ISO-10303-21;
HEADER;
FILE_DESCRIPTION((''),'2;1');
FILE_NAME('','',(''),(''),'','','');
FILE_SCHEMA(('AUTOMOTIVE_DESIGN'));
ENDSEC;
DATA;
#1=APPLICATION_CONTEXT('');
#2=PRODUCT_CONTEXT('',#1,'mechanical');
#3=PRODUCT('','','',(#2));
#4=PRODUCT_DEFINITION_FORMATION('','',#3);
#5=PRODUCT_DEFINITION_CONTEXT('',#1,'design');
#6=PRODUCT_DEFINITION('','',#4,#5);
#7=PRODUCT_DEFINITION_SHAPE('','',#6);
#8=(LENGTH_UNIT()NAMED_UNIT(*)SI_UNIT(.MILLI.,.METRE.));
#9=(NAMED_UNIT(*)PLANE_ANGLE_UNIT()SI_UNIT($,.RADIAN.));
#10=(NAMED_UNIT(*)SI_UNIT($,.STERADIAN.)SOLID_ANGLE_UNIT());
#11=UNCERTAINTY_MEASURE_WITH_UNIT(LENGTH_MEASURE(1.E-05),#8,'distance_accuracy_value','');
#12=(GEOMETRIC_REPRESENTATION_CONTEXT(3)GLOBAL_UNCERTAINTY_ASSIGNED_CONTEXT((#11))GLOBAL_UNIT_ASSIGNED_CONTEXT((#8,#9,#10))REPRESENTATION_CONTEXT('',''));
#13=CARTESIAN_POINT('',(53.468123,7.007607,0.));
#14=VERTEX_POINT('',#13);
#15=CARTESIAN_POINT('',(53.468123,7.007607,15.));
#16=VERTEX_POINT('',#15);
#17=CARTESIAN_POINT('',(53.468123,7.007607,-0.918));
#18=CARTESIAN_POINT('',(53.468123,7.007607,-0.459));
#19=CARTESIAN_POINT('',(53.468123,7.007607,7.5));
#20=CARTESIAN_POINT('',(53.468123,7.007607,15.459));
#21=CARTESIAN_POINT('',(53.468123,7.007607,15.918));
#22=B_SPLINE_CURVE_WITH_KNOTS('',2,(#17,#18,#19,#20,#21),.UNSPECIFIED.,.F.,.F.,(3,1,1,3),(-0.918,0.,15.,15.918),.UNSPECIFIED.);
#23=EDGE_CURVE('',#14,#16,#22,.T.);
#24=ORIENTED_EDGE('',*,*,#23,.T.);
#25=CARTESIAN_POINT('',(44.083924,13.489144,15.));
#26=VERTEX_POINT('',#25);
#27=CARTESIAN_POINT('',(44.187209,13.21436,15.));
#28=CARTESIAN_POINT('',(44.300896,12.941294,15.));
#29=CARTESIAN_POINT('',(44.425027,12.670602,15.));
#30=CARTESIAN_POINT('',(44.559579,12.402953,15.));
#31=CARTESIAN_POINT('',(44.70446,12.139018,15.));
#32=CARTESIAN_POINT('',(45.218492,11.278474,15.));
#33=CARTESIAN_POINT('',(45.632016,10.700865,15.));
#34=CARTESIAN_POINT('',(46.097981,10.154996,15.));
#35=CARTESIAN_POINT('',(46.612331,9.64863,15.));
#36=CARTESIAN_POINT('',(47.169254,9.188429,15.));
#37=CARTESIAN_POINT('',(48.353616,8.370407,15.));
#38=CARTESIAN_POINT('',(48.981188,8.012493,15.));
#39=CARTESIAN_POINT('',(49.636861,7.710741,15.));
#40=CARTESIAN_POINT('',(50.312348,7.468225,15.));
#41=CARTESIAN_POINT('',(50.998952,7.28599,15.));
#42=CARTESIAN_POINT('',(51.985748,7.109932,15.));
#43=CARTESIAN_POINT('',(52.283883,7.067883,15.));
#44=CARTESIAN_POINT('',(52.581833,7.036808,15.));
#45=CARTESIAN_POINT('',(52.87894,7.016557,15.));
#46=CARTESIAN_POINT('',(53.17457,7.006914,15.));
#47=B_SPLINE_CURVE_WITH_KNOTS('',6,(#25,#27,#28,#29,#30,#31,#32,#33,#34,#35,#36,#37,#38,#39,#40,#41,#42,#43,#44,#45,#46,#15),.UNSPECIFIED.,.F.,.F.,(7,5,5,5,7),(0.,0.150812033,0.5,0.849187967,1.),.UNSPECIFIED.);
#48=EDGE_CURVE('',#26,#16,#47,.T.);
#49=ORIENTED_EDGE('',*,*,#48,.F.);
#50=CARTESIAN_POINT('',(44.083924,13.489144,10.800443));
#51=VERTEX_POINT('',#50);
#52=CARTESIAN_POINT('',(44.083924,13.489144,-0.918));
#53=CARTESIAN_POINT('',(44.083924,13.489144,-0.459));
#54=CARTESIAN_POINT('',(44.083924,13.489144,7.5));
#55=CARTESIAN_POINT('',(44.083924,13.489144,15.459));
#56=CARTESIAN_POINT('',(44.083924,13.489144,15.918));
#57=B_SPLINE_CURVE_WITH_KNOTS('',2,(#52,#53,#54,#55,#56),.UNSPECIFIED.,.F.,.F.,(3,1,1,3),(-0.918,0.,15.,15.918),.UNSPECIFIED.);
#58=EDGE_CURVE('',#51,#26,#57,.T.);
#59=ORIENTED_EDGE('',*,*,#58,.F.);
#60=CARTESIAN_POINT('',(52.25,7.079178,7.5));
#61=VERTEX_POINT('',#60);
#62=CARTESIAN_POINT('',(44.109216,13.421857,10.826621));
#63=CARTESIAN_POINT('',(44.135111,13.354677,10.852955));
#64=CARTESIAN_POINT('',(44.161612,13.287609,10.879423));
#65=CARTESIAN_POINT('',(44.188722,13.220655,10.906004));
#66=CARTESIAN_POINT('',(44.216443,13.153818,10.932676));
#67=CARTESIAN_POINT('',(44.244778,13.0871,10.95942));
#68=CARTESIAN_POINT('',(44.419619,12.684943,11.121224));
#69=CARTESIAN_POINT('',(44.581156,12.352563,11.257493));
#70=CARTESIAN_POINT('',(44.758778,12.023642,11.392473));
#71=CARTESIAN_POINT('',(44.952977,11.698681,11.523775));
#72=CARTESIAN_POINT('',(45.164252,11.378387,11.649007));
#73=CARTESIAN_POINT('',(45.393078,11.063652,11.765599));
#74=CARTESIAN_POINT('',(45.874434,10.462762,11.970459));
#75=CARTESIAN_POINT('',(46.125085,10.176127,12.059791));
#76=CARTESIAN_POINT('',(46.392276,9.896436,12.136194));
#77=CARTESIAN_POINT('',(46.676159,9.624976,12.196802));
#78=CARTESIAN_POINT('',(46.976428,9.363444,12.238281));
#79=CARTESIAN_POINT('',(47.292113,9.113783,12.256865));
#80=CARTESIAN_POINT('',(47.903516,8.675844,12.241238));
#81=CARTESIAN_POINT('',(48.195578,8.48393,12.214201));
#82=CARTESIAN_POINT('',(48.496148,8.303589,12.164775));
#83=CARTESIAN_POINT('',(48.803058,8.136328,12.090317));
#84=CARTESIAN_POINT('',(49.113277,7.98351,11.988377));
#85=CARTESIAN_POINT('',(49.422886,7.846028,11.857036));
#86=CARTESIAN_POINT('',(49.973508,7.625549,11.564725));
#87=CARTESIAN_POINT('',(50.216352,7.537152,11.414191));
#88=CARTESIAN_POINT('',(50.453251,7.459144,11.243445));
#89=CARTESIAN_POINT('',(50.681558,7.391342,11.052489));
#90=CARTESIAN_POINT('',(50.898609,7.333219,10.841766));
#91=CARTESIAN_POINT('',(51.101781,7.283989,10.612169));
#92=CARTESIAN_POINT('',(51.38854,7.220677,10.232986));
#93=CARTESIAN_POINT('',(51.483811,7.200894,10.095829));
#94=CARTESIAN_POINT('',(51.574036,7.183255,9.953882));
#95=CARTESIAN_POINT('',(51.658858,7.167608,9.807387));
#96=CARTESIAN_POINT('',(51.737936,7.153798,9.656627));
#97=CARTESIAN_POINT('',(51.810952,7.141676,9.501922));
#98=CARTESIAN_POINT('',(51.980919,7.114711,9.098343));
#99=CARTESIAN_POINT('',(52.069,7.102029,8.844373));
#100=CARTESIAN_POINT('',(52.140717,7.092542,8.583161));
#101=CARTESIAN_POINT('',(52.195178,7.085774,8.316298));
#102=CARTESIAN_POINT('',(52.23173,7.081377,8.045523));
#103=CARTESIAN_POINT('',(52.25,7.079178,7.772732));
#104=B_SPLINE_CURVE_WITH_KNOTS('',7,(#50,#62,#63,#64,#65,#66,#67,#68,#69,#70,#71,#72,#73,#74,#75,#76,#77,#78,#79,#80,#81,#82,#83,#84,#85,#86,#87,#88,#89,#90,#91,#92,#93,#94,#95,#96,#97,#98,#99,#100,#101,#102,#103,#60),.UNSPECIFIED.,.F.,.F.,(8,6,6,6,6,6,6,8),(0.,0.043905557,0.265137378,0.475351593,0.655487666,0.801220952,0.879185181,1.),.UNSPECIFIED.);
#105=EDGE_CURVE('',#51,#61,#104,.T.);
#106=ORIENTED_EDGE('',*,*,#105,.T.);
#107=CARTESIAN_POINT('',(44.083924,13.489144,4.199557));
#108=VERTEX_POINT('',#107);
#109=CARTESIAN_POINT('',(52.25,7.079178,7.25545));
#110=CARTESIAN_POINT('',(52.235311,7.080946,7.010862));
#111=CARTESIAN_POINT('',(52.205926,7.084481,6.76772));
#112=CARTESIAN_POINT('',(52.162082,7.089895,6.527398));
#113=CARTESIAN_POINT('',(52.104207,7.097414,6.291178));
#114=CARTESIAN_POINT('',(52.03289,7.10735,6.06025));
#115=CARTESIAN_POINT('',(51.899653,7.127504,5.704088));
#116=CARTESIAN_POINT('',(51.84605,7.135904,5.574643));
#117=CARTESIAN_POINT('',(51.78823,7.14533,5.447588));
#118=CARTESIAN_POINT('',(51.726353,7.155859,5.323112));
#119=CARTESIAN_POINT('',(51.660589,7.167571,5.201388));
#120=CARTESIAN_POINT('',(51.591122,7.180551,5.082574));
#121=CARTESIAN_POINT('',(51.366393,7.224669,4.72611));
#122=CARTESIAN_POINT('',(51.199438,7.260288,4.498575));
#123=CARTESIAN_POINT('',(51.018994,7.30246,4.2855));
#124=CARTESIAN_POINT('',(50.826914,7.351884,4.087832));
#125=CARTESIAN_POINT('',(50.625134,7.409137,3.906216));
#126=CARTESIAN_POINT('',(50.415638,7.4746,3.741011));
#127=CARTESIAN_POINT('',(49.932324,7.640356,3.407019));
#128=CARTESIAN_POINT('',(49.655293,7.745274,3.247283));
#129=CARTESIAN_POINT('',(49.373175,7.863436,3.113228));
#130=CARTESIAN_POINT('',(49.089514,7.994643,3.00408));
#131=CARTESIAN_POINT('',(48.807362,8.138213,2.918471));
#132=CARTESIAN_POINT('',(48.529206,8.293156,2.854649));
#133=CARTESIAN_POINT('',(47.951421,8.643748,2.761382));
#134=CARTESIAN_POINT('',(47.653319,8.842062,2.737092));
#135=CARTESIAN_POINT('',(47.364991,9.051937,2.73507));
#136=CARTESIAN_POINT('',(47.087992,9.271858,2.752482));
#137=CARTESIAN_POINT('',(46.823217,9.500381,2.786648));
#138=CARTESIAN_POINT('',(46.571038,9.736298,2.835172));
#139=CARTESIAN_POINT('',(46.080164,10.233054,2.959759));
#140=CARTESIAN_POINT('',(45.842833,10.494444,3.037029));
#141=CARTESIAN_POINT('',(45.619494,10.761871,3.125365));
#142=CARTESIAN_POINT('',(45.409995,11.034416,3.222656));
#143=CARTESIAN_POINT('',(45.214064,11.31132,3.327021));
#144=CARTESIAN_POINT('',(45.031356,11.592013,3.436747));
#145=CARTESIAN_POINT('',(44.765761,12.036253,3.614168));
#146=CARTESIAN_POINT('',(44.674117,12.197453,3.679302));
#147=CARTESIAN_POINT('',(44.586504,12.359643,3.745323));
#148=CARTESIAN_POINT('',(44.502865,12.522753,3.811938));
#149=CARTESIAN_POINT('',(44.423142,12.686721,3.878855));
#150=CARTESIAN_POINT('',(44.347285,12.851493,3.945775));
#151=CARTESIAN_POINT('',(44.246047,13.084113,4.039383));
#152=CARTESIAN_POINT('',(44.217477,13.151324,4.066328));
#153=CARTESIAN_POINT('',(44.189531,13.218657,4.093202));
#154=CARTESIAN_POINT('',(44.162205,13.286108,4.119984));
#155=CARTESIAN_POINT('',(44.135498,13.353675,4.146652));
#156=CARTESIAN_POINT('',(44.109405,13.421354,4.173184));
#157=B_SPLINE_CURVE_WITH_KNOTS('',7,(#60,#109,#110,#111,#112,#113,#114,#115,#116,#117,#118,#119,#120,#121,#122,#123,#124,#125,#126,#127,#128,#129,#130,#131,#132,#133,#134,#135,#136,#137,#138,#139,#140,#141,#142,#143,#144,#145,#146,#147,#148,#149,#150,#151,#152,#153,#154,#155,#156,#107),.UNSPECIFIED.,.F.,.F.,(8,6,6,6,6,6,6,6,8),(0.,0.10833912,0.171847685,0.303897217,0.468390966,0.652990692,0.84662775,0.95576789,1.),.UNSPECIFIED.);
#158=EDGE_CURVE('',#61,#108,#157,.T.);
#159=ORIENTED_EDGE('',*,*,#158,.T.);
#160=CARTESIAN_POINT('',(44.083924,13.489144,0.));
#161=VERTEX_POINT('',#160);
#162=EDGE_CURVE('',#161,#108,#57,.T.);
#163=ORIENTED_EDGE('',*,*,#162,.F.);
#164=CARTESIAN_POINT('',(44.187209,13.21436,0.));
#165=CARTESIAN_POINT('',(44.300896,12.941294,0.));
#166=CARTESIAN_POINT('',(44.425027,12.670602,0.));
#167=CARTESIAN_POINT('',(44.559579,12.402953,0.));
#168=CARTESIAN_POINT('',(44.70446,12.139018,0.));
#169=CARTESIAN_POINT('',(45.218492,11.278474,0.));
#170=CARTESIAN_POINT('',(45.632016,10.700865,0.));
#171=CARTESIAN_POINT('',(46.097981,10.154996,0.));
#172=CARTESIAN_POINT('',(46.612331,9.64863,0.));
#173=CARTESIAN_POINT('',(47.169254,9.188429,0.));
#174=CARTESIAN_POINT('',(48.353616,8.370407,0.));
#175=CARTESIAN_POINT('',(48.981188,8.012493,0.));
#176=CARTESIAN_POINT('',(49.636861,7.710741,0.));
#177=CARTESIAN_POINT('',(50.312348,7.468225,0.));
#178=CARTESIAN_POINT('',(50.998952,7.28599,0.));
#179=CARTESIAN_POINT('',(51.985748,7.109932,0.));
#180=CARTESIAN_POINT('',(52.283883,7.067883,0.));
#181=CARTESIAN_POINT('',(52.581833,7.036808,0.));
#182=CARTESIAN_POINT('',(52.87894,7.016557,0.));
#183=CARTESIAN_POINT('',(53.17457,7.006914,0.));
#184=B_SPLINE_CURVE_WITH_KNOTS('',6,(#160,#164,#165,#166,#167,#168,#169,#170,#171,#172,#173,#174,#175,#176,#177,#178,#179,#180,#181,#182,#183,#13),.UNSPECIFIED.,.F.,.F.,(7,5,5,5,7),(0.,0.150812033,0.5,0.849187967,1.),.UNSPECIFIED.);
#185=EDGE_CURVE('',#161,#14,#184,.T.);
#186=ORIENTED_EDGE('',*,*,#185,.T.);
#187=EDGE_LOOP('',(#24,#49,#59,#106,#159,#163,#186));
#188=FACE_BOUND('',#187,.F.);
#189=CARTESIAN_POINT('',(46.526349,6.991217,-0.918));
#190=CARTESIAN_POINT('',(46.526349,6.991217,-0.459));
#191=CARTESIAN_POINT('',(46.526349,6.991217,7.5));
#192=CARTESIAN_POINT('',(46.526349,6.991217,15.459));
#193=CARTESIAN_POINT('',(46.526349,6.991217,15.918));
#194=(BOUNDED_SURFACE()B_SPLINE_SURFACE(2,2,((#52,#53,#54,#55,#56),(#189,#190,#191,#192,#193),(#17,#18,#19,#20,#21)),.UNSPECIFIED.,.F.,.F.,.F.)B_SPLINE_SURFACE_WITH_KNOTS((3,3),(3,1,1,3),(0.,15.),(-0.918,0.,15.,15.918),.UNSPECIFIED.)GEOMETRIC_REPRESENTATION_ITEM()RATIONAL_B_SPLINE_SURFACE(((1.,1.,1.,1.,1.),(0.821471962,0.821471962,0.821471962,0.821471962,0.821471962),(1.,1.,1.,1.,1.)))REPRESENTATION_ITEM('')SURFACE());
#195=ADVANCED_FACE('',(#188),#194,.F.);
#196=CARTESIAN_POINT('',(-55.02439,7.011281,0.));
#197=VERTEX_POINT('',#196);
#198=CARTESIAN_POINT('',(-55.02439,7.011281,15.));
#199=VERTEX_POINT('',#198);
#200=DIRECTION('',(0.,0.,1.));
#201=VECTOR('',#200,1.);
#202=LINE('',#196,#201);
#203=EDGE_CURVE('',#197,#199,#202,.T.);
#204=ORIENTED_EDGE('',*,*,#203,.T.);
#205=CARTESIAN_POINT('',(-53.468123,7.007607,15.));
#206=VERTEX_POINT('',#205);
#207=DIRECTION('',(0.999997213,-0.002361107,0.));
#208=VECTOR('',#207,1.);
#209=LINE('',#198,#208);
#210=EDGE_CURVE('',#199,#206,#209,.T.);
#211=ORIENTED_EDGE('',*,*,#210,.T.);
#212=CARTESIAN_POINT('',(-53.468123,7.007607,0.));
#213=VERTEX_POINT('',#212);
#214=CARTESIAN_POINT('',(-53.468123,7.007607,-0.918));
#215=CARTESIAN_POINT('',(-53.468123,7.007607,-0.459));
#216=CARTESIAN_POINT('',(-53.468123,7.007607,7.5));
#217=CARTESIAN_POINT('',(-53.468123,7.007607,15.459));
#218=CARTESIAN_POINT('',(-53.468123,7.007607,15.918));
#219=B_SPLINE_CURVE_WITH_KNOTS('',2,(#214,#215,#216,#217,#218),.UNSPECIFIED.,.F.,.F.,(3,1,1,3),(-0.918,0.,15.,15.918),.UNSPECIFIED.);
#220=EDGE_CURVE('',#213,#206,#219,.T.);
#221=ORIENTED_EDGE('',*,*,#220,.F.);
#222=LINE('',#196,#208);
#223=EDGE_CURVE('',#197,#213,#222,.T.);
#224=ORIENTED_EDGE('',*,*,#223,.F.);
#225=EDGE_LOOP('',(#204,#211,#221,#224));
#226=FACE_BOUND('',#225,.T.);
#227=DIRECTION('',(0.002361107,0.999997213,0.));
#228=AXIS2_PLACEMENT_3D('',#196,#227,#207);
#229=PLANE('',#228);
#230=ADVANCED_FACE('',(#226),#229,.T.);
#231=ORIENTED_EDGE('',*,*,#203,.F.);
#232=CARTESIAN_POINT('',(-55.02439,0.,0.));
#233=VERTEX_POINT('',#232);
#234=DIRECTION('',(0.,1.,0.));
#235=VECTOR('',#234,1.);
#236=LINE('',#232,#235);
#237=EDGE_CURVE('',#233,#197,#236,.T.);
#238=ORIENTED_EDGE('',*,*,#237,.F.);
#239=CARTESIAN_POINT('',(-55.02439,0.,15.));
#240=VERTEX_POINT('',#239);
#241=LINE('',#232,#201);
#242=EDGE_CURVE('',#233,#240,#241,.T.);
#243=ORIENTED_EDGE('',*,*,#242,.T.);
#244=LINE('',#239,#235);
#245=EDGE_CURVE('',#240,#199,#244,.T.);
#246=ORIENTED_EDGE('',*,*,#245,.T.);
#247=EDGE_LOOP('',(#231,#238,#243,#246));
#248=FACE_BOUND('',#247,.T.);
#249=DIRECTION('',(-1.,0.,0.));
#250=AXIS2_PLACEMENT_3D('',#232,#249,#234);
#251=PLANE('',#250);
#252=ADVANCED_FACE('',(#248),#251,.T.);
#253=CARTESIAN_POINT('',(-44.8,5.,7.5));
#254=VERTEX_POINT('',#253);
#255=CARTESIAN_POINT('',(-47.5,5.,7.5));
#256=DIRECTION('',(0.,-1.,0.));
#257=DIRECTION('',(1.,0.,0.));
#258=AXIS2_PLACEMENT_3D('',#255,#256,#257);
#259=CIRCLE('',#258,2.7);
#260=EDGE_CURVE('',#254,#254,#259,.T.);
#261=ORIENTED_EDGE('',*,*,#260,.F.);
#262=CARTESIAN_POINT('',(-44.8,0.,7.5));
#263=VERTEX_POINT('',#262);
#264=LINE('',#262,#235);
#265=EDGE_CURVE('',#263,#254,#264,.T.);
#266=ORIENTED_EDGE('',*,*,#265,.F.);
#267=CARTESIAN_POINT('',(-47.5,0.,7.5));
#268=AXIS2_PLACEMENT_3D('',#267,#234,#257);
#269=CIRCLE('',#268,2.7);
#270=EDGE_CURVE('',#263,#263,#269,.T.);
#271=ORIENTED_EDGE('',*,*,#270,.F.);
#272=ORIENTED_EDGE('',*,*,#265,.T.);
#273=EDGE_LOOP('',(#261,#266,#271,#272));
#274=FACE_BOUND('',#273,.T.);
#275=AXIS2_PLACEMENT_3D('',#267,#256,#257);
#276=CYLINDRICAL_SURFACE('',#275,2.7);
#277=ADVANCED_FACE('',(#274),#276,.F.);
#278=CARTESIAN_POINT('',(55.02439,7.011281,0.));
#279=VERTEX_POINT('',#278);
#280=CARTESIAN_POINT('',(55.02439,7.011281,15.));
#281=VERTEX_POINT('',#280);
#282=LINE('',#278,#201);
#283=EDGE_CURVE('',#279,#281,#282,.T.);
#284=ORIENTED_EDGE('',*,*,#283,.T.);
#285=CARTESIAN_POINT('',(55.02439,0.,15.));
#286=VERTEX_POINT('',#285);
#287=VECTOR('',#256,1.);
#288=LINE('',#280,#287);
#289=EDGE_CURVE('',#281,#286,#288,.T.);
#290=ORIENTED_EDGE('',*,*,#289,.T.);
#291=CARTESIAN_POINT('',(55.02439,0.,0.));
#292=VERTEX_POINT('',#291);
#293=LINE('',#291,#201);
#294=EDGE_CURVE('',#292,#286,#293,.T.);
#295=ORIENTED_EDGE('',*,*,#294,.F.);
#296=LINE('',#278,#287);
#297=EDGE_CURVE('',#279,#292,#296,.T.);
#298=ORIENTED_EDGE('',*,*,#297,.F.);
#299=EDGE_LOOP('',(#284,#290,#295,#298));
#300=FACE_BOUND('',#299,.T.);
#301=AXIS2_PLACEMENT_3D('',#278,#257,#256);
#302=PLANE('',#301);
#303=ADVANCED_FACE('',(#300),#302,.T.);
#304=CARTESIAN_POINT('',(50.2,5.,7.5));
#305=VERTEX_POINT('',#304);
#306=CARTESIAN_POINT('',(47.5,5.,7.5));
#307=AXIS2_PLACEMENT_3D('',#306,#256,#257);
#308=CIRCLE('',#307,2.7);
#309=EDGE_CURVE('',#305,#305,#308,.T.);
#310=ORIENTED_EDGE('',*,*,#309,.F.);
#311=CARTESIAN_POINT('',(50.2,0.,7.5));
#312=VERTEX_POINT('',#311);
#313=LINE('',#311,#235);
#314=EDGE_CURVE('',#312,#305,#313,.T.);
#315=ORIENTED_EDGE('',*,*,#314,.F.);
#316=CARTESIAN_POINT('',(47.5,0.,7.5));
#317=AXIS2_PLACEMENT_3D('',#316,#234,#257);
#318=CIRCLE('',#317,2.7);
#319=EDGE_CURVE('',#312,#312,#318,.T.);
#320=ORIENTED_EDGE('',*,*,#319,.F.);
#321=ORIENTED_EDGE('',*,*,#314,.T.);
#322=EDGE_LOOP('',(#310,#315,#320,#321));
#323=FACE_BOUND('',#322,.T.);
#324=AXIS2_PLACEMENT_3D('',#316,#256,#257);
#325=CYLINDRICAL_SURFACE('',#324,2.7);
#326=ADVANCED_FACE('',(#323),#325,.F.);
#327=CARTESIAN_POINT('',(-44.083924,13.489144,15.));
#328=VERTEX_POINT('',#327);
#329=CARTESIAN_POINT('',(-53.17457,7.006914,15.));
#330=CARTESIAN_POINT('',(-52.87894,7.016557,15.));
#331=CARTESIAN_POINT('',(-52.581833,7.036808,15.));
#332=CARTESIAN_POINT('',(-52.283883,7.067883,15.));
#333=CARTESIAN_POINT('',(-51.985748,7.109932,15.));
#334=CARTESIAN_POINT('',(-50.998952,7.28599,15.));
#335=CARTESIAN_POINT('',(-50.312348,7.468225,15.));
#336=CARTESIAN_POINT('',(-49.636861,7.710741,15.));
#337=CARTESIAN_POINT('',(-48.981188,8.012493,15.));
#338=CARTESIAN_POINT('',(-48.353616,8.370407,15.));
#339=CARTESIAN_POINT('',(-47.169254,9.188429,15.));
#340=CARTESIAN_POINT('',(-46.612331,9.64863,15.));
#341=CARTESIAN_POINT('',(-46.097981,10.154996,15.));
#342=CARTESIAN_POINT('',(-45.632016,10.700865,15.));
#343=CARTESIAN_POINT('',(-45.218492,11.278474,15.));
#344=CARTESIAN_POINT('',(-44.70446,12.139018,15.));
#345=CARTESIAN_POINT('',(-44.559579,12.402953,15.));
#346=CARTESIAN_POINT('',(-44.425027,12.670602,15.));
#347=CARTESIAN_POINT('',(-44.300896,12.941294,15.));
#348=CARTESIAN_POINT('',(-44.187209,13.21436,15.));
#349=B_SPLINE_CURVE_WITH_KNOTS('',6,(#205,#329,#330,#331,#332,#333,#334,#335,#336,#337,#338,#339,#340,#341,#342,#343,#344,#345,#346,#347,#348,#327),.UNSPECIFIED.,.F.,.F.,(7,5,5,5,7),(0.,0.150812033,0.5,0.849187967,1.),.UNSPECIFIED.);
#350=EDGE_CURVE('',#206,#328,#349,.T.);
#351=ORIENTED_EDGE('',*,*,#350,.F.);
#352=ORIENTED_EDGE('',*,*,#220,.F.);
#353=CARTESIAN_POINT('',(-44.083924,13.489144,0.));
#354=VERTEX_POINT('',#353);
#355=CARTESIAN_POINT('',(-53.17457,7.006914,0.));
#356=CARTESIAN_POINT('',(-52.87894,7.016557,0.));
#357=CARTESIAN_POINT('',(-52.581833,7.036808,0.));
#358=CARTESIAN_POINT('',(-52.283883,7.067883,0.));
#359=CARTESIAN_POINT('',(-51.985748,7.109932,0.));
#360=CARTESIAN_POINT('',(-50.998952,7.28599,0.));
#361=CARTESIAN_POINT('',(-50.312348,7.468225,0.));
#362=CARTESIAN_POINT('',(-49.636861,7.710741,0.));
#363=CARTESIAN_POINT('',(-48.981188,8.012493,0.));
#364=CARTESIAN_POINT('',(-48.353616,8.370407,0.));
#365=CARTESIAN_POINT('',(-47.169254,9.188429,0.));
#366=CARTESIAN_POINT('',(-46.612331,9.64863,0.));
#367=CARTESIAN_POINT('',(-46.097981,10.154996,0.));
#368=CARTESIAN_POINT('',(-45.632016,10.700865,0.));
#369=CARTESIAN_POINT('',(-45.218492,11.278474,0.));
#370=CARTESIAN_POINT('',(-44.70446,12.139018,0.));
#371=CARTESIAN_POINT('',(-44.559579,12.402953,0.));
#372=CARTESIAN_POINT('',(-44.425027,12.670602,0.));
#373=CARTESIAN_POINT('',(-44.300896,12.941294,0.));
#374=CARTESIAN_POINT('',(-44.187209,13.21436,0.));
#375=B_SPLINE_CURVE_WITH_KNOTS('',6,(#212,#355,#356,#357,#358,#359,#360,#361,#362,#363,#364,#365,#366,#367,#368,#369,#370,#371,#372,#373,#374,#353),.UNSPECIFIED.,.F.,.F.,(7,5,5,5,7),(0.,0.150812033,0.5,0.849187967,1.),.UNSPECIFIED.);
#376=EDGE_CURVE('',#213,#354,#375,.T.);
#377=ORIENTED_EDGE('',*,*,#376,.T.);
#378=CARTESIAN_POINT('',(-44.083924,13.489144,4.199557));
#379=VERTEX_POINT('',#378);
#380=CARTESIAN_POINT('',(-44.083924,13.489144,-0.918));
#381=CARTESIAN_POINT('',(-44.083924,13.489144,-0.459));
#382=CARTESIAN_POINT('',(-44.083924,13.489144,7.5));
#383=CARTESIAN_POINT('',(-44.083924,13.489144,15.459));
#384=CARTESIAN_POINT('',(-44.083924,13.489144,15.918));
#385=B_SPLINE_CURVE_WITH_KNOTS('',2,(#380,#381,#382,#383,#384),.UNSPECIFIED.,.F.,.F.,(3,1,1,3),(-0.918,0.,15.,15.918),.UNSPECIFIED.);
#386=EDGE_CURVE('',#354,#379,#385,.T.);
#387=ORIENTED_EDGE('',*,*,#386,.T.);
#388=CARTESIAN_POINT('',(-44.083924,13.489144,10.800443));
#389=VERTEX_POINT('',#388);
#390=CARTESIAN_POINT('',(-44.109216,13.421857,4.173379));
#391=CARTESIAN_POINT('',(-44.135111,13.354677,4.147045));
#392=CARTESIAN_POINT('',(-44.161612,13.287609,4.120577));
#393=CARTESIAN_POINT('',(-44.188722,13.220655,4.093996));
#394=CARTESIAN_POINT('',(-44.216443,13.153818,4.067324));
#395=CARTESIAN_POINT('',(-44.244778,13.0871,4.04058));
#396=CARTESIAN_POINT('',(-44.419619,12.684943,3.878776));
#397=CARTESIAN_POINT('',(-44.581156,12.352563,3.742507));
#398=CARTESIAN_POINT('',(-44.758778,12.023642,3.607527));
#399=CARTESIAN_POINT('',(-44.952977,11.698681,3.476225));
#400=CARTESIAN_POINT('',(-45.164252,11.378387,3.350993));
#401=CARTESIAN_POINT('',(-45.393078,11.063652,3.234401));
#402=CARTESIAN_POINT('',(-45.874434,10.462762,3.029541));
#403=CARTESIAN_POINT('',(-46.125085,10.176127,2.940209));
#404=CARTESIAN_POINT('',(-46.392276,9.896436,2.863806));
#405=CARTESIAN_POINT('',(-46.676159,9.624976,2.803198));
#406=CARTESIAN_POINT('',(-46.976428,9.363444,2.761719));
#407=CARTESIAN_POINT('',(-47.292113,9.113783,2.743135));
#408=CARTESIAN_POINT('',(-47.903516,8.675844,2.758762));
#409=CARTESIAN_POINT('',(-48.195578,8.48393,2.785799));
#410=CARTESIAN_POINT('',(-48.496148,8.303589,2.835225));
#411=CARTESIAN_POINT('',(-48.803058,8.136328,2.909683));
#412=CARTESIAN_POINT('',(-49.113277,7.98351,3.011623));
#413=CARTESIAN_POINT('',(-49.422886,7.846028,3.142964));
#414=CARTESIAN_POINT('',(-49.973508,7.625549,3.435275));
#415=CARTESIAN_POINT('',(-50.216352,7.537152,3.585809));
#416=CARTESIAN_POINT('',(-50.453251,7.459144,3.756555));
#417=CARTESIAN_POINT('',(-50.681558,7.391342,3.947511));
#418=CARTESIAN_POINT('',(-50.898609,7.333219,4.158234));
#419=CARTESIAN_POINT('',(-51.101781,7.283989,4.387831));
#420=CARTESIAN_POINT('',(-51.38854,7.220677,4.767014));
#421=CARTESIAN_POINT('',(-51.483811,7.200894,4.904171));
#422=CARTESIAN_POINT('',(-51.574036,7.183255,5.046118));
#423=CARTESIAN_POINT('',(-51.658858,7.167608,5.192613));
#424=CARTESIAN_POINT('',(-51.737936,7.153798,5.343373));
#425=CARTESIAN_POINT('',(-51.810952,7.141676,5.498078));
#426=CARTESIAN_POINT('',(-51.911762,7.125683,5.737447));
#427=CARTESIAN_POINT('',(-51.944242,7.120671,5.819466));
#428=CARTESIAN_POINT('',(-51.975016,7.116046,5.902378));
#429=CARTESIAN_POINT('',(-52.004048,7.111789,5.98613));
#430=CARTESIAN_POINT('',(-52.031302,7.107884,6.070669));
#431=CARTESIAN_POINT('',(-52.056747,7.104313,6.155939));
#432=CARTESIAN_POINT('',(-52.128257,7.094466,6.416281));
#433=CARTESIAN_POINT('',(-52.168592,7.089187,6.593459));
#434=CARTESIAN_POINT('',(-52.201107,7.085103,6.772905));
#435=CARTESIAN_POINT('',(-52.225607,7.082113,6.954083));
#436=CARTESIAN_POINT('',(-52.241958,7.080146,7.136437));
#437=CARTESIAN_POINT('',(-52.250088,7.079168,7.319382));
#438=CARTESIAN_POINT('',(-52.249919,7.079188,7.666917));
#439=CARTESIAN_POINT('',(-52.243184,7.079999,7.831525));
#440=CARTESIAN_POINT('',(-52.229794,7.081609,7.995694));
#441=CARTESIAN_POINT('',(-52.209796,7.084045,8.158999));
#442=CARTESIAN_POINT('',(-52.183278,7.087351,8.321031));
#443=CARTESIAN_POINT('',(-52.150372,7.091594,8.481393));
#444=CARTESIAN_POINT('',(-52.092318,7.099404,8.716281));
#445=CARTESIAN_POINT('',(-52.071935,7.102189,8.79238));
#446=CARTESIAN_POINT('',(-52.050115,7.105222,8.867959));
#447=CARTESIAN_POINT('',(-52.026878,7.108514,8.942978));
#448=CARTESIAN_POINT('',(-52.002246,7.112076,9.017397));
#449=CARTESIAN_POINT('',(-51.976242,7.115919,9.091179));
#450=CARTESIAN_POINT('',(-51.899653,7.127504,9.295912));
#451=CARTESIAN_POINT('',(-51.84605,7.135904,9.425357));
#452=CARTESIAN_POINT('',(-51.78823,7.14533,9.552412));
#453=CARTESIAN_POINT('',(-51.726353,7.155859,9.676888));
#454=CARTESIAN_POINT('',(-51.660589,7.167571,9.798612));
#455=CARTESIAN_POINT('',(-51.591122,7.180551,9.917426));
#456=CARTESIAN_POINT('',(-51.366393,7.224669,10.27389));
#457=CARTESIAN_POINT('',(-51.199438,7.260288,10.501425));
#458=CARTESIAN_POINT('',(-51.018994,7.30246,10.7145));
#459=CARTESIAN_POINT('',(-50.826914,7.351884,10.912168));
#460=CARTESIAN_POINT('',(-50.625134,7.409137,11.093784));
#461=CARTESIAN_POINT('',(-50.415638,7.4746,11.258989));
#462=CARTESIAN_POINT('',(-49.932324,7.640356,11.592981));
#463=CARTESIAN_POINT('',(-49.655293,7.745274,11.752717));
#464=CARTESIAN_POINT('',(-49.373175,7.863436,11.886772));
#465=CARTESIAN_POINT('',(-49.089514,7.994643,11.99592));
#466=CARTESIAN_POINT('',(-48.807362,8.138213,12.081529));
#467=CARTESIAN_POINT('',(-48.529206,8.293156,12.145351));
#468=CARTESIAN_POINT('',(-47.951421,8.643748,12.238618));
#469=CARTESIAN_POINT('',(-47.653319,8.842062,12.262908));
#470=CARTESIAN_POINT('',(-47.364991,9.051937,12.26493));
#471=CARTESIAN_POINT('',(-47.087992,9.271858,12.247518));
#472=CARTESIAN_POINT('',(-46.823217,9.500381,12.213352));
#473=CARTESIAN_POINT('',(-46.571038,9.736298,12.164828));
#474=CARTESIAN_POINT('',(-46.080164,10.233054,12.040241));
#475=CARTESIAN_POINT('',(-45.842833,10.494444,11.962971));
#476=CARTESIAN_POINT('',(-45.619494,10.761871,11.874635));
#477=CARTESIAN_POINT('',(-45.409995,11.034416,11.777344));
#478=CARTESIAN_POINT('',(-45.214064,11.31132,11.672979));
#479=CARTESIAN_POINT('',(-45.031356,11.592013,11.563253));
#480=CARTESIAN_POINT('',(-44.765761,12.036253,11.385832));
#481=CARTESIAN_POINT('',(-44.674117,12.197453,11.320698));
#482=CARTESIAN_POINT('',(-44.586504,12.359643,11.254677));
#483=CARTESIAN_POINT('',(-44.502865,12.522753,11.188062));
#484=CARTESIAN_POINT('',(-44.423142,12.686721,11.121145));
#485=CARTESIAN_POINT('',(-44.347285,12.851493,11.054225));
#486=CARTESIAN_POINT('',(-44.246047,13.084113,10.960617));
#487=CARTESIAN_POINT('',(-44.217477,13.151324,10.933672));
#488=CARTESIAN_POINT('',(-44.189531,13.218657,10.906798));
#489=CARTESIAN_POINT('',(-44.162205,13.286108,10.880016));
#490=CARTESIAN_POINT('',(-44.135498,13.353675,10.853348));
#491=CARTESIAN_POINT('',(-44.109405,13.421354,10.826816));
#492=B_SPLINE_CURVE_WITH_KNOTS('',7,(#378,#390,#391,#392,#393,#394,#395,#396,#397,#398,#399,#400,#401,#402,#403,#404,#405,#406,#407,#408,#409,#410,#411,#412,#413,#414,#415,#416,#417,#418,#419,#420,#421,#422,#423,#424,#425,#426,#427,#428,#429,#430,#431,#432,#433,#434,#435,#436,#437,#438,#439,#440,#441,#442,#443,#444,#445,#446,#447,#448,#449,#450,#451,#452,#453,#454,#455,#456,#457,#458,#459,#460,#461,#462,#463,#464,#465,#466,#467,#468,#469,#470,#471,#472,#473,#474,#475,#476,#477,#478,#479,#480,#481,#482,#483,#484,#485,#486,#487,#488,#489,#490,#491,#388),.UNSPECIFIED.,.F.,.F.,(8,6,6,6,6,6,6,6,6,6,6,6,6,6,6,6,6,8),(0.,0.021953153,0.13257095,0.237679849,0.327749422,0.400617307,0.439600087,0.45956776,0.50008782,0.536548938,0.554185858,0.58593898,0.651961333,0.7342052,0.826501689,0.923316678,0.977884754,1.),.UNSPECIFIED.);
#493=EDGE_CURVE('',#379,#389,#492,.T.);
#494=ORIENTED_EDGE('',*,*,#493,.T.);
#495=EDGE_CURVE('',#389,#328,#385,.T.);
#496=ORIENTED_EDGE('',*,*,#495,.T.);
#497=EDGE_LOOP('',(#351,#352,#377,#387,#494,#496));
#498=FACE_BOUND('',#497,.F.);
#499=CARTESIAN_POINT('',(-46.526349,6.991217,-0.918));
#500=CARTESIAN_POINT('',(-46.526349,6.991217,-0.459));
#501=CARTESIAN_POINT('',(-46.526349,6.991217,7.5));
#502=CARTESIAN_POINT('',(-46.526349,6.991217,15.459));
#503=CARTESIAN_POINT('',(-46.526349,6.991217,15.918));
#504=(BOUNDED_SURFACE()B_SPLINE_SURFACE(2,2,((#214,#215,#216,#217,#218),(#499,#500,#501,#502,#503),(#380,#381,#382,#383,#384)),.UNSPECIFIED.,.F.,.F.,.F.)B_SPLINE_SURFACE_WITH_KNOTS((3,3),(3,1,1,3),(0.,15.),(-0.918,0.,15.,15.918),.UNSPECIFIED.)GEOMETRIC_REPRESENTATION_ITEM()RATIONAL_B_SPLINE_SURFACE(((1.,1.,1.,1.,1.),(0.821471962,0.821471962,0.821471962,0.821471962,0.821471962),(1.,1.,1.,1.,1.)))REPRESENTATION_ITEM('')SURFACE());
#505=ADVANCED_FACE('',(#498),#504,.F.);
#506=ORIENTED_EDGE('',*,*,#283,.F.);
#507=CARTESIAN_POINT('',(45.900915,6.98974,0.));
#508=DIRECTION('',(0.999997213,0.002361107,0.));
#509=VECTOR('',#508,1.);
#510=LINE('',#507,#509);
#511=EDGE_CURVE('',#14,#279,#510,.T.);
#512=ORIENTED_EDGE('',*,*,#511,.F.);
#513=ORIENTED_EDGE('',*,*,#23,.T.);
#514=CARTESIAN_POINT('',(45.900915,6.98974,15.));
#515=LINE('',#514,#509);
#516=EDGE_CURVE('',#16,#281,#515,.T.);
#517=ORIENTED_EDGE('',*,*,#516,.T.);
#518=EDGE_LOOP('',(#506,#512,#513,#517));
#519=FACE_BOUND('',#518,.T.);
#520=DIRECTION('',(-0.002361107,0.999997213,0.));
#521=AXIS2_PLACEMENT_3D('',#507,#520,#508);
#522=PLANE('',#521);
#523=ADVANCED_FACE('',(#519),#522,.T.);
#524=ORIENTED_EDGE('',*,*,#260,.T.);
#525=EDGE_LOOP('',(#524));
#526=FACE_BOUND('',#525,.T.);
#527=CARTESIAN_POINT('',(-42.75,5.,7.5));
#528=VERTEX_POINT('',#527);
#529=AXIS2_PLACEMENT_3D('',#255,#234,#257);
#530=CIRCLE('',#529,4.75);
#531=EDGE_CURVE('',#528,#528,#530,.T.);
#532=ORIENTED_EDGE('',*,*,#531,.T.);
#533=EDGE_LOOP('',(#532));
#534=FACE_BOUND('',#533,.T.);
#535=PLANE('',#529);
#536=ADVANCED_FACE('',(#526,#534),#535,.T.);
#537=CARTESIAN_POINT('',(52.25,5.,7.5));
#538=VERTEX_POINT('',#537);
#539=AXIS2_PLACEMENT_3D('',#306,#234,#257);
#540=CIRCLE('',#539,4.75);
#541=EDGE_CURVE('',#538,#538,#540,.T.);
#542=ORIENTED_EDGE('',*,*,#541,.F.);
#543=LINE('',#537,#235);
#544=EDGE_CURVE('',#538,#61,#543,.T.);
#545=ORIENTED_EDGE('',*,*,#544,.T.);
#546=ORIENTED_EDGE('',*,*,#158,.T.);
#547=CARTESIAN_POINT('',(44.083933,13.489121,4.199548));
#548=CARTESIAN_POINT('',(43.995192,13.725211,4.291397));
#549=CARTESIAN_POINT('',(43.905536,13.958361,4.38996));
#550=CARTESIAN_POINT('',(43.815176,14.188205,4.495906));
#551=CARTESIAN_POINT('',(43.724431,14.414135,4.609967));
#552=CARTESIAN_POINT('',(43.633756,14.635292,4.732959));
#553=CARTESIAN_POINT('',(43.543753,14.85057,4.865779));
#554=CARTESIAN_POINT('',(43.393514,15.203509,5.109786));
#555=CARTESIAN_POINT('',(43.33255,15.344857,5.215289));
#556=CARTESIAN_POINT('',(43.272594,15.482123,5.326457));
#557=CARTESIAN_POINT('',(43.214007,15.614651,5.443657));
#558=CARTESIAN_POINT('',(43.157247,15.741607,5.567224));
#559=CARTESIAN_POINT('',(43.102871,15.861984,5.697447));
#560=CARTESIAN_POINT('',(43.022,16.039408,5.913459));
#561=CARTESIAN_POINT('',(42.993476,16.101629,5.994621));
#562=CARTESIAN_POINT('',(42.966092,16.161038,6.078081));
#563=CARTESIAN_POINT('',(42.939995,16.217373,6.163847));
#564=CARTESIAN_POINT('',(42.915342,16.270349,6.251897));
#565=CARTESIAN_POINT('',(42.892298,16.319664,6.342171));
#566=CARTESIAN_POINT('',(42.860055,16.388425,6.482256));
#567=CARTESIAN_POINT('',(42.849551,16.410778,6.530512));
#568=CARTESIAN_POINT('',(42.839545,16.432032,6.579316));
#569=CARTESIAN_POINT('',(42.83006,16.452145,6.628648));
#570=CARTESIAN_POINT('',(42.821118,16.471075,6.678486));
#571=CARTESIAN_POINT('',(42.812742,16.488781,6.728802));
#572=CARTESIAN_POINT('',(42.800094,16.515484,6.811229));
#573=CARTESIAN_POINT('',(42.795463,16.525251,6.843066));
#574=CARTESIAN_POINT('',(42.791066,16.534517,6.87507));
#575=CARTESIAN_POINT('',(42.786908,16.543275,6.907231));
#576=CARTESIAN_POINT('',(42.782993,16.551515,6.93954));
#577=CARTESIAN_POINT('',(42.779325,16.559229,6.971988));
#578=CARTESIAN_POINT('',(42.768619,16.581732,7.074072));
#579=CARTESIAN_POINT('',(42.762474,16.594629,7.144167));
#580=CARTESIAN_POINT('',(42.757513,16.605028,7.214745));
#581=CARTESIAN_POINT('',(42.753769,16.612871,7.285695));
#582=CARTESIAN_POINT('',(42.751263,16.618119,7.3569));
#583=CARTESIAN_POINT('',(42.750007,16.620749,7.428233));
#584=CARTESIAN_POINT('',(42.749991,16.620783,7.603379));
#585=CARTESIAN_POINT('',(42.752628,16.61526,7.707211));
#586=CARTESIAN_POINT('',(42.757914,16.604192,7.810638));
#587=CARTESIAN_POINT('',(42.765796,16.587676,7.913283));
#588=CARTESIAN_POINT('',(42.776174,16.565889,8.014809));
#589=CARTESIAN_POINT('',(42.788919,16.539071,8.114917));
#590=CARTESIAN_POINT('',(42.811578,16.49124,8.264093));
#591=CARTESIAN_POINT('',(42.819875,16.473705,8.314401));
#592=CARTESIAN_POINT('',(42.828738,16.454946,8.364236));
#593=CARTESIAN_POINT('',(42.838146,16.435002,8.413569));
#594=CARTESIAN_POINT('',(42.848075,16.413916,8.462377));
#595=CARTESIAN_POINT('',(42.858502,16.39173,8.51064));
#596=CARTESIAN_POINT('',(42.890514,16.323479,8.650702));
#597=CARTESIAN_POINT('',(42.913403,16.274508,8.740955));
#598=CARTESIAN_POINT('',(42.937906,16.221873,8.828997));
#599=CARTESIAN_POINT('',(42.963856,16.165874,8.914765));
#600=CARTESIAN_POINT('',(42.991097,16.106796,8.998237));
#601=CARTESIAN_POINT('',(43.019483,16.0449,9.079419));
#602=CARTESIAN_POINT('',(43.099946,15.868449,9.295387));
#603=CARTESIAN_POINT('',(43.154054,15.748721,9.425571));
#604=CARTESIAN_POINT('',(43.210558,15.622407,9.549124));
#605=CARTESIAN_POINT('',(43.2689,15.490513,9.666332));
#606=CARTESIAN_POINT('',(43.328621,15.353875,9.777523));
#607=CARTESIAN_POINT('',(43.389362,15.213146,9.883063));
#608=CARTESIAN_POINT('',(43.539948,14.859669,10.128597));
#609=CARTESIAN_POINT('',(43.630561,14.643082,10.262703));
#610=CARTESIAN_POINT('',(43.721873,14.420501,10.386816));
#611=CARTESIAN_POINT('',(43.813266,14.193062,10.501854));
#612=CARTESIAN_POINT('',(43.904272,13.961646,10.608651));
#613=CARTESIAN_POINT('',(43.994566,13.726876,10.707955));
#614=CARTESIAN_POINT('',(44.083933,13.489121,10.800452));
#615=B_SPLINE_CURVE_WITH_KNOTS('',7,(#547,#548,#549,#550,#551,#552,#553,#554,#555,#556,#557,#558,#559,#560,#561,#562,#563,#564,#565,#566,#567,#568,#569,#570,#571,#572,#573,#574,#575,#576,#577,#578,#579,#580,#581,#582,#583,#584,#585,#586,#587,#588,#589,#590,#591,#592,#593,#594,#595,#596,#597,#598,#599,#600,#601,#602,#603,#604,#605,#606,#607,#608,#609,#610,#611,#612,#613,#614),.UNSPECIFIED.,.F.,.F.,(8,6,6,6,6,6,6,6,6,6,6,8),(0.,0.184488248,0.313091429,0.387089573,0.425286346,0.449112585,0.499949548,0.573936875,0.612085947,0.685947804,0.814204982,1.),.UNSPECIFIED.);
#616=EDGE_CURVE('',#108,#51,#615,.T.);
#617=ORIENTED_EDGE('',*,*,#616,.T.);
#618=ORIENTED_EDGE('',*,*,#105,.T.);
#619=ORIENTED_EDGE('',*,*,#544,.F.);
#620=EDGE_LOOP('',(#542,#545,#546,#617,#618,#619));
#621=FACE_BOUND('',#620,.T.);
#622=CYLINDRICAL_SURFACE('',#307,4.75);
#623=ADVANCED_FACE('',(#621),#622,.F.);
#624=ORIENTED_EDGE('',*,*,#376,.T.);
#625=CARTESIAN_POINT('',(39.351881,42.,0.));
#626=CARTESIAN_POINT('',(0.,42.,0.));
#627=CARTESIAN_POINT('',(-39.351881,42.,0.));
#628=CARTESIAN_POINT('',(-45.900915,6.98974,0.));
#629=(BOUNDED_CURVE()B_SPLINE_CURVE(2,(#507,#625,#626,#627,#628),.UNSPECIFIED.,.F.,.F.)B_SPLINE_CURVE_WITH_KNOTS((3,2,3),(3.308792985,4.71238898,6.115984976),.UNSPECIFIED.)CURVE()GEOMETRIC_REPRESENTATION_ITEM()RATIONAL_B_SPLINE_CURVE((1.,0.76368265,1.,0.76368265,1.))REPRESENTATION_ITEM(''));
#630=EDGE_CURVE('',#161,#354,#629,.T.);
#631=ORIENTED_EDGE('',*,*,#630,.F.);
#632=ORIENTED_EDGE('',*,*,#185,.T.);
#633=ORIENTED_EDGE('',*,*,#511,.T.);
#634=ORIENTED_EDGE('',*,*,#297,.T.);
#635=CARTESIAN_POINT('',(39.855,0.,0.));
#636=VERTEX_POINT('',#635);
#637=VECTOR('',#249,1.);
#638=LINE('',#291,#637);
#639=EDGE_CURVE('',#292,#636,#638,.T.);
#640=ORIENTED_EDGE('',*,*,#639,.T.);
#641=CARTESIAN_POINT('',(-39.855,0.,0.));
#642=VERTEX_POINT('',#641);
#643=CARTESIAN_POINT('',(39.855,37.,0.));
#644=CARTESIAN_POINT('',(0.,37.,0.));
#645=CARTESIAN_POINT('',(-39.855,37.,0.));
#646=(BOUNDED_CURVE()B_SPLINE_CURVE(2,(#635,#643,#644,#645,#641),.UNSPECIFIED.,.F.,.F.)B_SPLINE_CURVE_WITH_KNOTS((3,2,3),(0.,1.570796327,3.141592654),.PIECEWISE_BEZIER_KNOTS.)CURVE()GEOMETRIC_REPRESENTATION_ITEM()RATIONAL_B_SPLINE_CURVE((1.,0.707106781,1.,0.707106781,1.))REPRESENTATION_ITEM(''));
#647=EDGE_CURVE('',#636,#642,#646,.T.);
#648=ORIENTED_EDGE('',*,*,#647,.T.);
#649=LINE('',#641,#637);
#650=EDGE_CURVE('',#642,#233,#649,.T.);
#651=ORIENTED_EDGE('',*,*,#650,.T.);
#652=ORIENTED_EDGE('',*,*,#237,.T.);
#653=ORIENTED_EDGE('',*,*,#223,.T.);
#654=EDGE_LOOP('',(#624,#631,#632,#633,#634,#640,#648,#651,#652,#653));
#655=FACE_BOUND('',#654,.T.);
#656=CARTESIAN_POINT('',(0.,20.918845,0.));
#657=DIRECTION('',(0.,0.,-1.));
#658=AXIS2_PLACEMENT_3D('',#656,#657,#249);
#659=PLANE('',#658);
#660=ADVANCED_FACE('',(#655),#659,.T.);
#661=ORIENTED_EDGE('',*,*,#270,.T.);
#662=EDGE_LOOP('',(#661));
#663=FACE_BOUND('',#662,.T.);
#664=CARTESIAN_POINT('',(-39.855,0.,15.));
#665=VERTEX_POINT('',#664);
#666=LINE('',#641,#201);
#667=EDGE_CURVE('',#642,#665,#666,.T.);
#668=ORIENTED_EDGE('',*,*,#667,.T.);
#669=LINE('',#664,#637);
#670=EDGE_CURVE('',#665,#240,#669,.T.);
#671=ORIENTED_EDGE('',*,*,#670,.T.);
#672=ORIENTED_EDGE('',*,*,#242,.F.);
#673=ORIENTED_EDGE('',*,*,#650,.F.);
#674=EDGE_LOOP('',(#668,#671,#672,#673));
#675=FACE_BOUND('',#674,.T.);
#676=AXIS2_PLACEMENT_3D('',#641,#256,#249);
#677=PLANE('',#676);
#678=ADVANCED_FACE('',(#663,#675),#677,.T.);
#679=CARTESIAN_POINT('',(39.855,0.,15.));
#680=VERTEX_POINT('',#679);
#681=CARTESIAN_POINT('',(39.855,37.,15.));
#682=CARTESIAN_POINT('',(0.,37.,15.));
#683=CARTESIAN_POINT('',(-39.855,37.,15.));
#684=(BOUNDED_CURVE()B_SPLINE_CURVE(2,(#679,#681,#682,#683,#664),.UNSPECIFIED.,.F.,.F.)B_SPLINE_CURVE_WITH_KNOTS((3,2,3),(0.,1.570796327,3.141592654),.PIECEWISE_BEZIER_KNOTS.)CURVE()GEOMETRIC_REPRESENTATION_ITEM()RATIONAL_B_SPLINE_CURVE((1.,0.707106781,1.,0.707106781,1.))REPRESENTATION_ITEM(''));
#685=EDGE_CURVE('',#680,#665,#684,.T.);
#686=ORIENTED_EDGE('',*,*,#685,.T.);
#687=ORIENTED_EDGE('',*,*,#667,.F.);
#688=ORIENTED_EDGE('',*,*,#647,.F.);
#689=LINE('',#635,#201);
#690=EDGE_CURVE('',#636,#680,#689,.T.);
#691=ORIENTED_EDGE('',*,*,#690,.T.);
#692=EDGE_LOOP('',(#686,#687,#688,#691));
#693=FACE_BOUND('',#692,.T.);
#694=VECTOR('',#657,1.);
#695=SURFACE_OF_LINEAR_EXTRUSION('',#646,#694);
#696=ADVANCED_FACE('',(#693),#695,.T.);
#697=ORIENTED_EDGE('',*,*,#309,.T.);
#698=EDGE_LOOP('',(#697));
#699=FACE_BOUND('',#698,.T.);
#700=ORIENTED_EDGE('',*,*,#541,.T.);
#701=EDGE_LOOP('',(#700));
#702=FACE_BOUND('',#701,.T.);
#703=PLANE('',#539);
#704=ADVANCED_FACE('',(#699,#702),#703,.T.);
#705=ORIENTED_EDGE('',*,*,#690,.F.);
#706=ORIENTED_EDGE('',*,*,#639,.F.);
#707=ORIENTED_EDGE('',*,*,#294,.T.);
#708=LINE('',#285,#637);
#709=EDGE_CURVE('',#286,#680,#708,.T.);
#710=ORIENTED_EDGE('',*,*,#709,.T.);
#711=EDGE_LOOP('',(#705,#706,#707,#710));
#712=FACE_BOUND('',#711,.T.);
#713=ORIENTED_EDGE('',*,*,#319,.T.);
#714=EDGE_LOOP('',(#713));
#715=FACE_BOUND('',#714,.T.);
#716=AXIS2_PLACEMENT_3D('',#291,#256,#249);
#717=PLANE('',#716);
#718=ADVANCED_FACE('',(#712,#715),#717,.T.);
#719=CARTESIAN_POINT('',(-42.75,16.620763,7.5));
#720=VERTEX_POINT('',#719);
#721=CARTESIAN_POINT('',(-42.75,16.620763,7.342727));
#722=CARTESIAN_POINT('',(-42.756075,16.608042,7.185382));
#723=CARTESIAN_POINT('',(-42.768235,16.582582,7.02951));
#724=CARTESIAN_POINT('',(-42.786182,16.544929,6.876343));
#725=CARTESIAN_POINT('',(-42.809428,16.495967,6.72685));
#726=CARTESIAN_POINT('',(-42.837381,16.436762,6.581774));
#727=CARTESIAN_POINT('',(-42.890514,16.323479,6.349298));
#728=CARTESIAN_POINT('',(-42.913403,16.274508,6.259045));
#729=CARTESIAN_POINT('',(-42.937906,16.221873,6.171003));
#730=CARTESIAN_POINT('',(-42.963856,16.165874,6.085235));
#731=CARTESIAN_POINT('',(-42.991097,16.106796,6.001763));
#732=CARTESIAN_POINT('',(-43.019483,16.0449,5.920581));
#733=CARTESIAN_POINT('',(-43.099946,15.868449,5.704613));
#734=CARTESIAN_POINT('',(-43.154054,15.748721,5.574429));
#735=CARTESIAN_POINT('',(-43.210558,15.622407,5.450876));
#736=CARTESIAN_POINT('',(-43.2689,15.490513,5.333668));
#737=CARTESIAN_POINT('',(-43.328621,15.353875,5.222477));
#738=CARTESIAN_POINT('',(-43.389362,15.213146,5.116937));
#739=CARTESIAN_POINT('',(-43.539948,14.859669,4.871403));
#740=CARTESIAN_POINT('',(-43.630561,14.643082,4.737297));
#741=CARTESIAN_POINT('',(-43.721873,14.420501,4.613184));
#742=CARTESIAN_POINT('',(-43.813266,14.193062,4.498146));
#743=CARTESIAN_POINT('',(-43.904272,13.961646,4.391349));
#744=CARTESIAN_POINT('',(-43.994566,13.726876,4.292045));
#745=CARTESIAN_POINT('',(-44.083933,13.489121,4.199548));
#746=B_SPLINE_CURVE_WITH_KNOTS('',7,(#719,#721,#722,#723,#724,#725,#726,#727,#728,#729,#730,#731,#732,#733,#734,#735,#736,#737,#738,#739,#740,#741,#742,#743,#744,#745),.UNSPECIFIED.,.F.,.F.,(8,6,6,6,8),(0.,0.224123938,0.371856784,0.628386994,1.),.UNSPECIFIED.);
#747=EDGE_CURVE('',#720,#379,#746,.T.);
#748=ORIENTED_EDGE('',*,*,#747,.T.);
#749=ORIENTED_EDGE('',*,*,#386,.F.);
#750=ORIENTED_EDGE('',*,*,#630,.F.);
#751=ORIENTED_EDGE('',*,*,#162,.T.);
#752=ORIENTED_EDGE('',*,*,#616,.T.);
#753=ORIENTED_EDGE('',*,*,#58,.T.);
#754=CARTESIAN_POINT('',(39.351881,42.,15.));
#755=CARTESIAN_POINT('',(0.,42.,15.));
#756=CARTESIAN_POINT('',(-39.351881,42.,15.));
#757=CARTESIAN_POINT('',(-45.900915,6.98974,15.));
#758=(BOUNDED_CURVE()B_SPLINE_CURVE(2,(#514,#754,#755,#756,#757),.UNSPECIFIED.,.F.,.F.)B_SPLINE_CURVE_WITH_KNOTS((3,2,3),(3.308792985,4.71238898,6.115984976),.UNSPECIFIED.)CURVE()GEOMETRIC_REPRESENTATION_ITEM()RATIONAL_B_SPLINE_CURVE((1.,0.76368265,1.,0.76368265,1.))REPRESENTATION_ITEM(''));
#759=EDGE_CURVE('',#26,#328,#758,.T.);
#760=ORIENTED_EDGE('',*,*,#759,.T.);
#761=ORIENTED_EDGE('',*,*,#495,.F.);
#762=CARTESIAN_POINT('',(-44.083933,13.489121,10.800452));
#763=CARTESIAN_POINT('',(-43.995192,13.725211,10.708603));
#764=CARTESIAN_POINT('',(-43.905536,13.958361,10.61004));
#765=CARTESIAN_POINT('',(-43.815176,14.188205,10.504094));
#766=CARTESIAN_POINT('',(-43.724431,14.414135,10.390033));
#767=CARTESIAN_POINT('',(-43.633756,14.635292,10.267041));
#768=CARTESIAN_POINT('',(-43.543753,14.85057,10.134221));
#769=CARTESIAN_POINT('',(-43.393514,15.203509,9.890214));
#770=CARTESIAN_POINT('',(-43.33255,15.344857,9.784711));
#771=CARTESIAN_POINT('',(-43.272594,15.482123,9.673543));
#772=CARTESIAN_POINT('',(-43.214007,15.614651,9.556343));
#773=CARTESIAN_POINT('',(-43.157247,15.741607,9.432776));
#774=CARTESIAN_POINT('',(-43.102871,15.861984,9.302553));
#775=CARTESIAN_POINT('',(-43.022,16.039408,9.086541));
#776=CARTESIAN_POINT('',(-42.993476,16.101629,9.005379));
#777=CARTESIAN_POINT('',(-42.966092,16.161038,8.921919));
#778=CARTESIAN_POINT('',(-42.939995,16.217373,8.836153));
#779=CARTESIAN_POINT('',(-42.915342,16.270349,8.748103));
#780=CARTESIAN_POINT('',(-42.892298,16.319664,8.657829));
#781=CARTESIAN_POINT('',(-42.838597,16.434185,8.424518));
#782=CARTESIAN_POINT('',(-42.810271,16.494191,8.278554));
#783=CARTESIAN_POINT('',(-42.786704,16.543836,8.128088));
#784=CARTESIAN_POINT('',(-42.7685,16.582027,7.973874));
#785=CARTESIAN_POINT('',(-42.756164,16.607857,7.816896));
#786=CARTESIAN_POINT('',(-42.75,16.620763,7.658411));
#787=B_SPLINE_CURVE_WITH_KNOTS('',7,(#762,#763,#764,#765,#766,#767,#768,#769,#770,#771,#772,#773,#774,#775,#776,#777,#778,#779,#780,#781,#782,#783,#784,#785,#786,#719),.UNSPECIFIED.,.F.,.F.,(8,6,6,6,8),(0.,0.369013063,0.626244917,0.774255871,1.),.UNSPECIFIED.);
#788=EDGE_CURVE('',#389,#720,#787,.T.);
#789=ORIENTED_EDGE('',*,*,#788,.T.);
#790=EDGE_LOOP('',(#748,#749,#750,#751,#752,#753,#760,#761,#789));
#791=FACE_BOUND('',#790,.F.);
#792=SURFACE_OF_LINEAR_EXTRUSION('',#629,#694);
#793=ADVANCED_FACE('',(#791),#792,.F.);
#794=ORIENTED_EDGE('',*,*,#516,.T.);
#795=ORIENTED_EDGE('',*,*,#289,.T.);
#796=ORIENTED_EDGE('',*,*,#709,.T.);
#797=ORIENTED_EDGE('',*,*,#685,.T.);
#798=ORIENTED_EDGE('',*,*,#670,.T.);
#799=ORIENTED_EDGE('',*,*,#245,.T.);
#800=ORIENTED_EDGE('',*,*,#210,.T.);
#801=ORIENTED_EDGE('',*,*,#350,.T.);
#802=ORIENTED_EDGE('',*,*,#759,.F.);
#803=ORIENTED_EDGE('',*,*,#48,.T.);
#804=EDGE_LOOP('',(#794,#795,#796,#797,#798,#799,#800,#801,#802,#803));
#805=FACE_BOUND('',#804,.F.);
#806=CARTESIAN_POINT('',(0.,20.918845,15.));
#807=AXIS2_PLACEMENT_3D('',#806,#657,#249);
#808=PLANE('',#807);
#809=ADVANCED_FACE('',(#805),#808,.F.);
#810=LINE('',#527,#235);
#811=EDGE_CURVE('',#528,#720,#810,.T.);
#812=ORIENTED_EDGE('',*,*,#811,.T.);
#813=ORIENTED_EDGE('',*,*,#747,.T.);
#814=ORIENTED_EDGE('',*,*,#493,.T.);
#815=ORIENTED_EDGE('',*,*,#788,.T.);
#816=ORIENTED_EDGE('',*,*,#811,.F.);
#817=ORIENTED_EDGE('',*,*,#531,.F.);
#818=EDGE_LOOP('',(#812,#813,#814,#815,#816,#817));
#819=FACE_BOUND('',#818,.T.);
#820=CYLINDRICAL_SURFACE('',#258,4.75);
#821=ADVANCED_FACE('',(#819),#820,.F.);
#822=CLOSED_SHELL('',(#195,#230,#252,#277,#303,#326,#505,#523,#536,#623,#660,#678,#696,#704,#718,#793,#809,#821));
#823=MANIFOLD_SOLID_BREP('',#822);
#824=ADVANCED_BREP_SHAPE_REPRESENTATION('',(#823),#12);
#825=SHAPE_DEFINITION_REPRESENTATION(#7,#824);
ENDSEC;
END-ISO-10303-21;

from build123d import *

# Parameters (mm, degrees)
BOSS_EXTRUDE1_DEPTH     = 15
FILLET1_R               = 10
SKETCH3_R               = 2.7
CUT_EXTRUDE1_DEPTH      = 17
CUT_EXTRUDE2_DEPTH      = 12
CUT_EXTRUDE2_DEPTH_BACK = 1
SKETCH3_4_R             = 2.7
SKETCH5_R               = 4.75
CUT_EXTRUDE3_DEPTH      = 17


with BuildPart() as part:
    # Sketch1 → Boss-Extrude1 (new body)
    with BuildSketch(Plane.XY):
        with BuildLine():
            Line((-39.855, 0), (-55.024390244, 0))
            Line((-55.024390244, 0), (-55.024390244, 7.011281463))
            Line((-55.024390244, 7.011281463), (-45.900914662, 6.989739898))
            add(Edge.make_bspline(
                [(45.900914662, 6.989739898), (39.351881023, 42), (0, 42), (-39.351881023, 42), (-45.900914662, 6.989739898)],
                knots=[3.308792985, 3.308792985, 3.308792985, 4.71238898, 4.71238898, 6.115984976, 6.115984976, 6.115984976], degree=2, weights=[1, 0.76368265, 1, 0.76368265, 1]))
            Line((45.900914662, 6.989739898), (55.024390244, 7.011281463))
            Line((55.024390244, 7.011281463), (55.024390244, 0))
            Line((55.024390244, 0), (39.855, 0))
            add(Edge.make_bspline(
                [(39.855, 0), (39.855, 37), (0, 37), (-39.855, 37), (-39.855, 0)],
                knots=[0, 0, 0, 1.570796327, 1.570796327, 3.141592654, 3.141592654, 3.141592654], degree=2, weights=[1, 0.707106781, 1, 0.707106781, 1]))
        make_face()
    extrude(amount=BOSS_EXTRUDE1_DEPTH)

    # Fillet1
    fillet1_edges = [part.edges().sort_by_distance(p)[0] for p in [
        (45.900914662, 6.989739898, 7.5),
        (-45.900914662, 6.989739898, 7.5),
    ]]
    fillet(fillet1_edges, radius=FILLET1_R)

    # Sketch3 → Cut-Extrude1 (cut)
    with BuildSketch(Plane(origin=(0, 0, 0), x_dir=(1, 0, 0), z_dir=(0, 1, 0))):
        with Locations((-47.5, -7.5)):
            Circle(SKETCH3_R)
    extrude(amount=CUT_EXTRUDE1_DEPTH, mode=Mode.SUBTRACT)

    # Sketch3<4> → Cut-Extrude2 (cut, two sides: drawn at the far end of the back side and taken through both)
    with BuildSketch(Plane(origin=(0, 0, 0), x_dir=(1, 0, 0), z_dir=(0, 1, 0)).offset(-CUT_EXTRUDE2_DEPTH_BACK)):
        with Locations((47.5, -7.5)):
            Circle(SKETCH3_4_R)
        with Locations((-47.5, -7.5)):
            Circle(SKETCH3_4_R)
    extrude(amount=CUT_EXTRUDE2_DEPTH + CUT_EXTRUDE2_DEPTH_BACK, mode=Mode.SUBTRACT)

    # Sketch5 → Cut-Extrude3 (cut)
    with BuildSketch(Plane(origin=(0, 5, 0), x_dir=(1, 0, 0), z_dir=(0, 1, 0))):
        with Locations((-47.5, -7.5)):
            Circle(SKETCH5_R)
        with Locations((47.5, -7.5)):
            Circle(SKETCH5_R)
    extrude(amount=CUT_EXTRUDE3_DEPTH, mode=Mode.SUBTRACT)


solid = part.part
